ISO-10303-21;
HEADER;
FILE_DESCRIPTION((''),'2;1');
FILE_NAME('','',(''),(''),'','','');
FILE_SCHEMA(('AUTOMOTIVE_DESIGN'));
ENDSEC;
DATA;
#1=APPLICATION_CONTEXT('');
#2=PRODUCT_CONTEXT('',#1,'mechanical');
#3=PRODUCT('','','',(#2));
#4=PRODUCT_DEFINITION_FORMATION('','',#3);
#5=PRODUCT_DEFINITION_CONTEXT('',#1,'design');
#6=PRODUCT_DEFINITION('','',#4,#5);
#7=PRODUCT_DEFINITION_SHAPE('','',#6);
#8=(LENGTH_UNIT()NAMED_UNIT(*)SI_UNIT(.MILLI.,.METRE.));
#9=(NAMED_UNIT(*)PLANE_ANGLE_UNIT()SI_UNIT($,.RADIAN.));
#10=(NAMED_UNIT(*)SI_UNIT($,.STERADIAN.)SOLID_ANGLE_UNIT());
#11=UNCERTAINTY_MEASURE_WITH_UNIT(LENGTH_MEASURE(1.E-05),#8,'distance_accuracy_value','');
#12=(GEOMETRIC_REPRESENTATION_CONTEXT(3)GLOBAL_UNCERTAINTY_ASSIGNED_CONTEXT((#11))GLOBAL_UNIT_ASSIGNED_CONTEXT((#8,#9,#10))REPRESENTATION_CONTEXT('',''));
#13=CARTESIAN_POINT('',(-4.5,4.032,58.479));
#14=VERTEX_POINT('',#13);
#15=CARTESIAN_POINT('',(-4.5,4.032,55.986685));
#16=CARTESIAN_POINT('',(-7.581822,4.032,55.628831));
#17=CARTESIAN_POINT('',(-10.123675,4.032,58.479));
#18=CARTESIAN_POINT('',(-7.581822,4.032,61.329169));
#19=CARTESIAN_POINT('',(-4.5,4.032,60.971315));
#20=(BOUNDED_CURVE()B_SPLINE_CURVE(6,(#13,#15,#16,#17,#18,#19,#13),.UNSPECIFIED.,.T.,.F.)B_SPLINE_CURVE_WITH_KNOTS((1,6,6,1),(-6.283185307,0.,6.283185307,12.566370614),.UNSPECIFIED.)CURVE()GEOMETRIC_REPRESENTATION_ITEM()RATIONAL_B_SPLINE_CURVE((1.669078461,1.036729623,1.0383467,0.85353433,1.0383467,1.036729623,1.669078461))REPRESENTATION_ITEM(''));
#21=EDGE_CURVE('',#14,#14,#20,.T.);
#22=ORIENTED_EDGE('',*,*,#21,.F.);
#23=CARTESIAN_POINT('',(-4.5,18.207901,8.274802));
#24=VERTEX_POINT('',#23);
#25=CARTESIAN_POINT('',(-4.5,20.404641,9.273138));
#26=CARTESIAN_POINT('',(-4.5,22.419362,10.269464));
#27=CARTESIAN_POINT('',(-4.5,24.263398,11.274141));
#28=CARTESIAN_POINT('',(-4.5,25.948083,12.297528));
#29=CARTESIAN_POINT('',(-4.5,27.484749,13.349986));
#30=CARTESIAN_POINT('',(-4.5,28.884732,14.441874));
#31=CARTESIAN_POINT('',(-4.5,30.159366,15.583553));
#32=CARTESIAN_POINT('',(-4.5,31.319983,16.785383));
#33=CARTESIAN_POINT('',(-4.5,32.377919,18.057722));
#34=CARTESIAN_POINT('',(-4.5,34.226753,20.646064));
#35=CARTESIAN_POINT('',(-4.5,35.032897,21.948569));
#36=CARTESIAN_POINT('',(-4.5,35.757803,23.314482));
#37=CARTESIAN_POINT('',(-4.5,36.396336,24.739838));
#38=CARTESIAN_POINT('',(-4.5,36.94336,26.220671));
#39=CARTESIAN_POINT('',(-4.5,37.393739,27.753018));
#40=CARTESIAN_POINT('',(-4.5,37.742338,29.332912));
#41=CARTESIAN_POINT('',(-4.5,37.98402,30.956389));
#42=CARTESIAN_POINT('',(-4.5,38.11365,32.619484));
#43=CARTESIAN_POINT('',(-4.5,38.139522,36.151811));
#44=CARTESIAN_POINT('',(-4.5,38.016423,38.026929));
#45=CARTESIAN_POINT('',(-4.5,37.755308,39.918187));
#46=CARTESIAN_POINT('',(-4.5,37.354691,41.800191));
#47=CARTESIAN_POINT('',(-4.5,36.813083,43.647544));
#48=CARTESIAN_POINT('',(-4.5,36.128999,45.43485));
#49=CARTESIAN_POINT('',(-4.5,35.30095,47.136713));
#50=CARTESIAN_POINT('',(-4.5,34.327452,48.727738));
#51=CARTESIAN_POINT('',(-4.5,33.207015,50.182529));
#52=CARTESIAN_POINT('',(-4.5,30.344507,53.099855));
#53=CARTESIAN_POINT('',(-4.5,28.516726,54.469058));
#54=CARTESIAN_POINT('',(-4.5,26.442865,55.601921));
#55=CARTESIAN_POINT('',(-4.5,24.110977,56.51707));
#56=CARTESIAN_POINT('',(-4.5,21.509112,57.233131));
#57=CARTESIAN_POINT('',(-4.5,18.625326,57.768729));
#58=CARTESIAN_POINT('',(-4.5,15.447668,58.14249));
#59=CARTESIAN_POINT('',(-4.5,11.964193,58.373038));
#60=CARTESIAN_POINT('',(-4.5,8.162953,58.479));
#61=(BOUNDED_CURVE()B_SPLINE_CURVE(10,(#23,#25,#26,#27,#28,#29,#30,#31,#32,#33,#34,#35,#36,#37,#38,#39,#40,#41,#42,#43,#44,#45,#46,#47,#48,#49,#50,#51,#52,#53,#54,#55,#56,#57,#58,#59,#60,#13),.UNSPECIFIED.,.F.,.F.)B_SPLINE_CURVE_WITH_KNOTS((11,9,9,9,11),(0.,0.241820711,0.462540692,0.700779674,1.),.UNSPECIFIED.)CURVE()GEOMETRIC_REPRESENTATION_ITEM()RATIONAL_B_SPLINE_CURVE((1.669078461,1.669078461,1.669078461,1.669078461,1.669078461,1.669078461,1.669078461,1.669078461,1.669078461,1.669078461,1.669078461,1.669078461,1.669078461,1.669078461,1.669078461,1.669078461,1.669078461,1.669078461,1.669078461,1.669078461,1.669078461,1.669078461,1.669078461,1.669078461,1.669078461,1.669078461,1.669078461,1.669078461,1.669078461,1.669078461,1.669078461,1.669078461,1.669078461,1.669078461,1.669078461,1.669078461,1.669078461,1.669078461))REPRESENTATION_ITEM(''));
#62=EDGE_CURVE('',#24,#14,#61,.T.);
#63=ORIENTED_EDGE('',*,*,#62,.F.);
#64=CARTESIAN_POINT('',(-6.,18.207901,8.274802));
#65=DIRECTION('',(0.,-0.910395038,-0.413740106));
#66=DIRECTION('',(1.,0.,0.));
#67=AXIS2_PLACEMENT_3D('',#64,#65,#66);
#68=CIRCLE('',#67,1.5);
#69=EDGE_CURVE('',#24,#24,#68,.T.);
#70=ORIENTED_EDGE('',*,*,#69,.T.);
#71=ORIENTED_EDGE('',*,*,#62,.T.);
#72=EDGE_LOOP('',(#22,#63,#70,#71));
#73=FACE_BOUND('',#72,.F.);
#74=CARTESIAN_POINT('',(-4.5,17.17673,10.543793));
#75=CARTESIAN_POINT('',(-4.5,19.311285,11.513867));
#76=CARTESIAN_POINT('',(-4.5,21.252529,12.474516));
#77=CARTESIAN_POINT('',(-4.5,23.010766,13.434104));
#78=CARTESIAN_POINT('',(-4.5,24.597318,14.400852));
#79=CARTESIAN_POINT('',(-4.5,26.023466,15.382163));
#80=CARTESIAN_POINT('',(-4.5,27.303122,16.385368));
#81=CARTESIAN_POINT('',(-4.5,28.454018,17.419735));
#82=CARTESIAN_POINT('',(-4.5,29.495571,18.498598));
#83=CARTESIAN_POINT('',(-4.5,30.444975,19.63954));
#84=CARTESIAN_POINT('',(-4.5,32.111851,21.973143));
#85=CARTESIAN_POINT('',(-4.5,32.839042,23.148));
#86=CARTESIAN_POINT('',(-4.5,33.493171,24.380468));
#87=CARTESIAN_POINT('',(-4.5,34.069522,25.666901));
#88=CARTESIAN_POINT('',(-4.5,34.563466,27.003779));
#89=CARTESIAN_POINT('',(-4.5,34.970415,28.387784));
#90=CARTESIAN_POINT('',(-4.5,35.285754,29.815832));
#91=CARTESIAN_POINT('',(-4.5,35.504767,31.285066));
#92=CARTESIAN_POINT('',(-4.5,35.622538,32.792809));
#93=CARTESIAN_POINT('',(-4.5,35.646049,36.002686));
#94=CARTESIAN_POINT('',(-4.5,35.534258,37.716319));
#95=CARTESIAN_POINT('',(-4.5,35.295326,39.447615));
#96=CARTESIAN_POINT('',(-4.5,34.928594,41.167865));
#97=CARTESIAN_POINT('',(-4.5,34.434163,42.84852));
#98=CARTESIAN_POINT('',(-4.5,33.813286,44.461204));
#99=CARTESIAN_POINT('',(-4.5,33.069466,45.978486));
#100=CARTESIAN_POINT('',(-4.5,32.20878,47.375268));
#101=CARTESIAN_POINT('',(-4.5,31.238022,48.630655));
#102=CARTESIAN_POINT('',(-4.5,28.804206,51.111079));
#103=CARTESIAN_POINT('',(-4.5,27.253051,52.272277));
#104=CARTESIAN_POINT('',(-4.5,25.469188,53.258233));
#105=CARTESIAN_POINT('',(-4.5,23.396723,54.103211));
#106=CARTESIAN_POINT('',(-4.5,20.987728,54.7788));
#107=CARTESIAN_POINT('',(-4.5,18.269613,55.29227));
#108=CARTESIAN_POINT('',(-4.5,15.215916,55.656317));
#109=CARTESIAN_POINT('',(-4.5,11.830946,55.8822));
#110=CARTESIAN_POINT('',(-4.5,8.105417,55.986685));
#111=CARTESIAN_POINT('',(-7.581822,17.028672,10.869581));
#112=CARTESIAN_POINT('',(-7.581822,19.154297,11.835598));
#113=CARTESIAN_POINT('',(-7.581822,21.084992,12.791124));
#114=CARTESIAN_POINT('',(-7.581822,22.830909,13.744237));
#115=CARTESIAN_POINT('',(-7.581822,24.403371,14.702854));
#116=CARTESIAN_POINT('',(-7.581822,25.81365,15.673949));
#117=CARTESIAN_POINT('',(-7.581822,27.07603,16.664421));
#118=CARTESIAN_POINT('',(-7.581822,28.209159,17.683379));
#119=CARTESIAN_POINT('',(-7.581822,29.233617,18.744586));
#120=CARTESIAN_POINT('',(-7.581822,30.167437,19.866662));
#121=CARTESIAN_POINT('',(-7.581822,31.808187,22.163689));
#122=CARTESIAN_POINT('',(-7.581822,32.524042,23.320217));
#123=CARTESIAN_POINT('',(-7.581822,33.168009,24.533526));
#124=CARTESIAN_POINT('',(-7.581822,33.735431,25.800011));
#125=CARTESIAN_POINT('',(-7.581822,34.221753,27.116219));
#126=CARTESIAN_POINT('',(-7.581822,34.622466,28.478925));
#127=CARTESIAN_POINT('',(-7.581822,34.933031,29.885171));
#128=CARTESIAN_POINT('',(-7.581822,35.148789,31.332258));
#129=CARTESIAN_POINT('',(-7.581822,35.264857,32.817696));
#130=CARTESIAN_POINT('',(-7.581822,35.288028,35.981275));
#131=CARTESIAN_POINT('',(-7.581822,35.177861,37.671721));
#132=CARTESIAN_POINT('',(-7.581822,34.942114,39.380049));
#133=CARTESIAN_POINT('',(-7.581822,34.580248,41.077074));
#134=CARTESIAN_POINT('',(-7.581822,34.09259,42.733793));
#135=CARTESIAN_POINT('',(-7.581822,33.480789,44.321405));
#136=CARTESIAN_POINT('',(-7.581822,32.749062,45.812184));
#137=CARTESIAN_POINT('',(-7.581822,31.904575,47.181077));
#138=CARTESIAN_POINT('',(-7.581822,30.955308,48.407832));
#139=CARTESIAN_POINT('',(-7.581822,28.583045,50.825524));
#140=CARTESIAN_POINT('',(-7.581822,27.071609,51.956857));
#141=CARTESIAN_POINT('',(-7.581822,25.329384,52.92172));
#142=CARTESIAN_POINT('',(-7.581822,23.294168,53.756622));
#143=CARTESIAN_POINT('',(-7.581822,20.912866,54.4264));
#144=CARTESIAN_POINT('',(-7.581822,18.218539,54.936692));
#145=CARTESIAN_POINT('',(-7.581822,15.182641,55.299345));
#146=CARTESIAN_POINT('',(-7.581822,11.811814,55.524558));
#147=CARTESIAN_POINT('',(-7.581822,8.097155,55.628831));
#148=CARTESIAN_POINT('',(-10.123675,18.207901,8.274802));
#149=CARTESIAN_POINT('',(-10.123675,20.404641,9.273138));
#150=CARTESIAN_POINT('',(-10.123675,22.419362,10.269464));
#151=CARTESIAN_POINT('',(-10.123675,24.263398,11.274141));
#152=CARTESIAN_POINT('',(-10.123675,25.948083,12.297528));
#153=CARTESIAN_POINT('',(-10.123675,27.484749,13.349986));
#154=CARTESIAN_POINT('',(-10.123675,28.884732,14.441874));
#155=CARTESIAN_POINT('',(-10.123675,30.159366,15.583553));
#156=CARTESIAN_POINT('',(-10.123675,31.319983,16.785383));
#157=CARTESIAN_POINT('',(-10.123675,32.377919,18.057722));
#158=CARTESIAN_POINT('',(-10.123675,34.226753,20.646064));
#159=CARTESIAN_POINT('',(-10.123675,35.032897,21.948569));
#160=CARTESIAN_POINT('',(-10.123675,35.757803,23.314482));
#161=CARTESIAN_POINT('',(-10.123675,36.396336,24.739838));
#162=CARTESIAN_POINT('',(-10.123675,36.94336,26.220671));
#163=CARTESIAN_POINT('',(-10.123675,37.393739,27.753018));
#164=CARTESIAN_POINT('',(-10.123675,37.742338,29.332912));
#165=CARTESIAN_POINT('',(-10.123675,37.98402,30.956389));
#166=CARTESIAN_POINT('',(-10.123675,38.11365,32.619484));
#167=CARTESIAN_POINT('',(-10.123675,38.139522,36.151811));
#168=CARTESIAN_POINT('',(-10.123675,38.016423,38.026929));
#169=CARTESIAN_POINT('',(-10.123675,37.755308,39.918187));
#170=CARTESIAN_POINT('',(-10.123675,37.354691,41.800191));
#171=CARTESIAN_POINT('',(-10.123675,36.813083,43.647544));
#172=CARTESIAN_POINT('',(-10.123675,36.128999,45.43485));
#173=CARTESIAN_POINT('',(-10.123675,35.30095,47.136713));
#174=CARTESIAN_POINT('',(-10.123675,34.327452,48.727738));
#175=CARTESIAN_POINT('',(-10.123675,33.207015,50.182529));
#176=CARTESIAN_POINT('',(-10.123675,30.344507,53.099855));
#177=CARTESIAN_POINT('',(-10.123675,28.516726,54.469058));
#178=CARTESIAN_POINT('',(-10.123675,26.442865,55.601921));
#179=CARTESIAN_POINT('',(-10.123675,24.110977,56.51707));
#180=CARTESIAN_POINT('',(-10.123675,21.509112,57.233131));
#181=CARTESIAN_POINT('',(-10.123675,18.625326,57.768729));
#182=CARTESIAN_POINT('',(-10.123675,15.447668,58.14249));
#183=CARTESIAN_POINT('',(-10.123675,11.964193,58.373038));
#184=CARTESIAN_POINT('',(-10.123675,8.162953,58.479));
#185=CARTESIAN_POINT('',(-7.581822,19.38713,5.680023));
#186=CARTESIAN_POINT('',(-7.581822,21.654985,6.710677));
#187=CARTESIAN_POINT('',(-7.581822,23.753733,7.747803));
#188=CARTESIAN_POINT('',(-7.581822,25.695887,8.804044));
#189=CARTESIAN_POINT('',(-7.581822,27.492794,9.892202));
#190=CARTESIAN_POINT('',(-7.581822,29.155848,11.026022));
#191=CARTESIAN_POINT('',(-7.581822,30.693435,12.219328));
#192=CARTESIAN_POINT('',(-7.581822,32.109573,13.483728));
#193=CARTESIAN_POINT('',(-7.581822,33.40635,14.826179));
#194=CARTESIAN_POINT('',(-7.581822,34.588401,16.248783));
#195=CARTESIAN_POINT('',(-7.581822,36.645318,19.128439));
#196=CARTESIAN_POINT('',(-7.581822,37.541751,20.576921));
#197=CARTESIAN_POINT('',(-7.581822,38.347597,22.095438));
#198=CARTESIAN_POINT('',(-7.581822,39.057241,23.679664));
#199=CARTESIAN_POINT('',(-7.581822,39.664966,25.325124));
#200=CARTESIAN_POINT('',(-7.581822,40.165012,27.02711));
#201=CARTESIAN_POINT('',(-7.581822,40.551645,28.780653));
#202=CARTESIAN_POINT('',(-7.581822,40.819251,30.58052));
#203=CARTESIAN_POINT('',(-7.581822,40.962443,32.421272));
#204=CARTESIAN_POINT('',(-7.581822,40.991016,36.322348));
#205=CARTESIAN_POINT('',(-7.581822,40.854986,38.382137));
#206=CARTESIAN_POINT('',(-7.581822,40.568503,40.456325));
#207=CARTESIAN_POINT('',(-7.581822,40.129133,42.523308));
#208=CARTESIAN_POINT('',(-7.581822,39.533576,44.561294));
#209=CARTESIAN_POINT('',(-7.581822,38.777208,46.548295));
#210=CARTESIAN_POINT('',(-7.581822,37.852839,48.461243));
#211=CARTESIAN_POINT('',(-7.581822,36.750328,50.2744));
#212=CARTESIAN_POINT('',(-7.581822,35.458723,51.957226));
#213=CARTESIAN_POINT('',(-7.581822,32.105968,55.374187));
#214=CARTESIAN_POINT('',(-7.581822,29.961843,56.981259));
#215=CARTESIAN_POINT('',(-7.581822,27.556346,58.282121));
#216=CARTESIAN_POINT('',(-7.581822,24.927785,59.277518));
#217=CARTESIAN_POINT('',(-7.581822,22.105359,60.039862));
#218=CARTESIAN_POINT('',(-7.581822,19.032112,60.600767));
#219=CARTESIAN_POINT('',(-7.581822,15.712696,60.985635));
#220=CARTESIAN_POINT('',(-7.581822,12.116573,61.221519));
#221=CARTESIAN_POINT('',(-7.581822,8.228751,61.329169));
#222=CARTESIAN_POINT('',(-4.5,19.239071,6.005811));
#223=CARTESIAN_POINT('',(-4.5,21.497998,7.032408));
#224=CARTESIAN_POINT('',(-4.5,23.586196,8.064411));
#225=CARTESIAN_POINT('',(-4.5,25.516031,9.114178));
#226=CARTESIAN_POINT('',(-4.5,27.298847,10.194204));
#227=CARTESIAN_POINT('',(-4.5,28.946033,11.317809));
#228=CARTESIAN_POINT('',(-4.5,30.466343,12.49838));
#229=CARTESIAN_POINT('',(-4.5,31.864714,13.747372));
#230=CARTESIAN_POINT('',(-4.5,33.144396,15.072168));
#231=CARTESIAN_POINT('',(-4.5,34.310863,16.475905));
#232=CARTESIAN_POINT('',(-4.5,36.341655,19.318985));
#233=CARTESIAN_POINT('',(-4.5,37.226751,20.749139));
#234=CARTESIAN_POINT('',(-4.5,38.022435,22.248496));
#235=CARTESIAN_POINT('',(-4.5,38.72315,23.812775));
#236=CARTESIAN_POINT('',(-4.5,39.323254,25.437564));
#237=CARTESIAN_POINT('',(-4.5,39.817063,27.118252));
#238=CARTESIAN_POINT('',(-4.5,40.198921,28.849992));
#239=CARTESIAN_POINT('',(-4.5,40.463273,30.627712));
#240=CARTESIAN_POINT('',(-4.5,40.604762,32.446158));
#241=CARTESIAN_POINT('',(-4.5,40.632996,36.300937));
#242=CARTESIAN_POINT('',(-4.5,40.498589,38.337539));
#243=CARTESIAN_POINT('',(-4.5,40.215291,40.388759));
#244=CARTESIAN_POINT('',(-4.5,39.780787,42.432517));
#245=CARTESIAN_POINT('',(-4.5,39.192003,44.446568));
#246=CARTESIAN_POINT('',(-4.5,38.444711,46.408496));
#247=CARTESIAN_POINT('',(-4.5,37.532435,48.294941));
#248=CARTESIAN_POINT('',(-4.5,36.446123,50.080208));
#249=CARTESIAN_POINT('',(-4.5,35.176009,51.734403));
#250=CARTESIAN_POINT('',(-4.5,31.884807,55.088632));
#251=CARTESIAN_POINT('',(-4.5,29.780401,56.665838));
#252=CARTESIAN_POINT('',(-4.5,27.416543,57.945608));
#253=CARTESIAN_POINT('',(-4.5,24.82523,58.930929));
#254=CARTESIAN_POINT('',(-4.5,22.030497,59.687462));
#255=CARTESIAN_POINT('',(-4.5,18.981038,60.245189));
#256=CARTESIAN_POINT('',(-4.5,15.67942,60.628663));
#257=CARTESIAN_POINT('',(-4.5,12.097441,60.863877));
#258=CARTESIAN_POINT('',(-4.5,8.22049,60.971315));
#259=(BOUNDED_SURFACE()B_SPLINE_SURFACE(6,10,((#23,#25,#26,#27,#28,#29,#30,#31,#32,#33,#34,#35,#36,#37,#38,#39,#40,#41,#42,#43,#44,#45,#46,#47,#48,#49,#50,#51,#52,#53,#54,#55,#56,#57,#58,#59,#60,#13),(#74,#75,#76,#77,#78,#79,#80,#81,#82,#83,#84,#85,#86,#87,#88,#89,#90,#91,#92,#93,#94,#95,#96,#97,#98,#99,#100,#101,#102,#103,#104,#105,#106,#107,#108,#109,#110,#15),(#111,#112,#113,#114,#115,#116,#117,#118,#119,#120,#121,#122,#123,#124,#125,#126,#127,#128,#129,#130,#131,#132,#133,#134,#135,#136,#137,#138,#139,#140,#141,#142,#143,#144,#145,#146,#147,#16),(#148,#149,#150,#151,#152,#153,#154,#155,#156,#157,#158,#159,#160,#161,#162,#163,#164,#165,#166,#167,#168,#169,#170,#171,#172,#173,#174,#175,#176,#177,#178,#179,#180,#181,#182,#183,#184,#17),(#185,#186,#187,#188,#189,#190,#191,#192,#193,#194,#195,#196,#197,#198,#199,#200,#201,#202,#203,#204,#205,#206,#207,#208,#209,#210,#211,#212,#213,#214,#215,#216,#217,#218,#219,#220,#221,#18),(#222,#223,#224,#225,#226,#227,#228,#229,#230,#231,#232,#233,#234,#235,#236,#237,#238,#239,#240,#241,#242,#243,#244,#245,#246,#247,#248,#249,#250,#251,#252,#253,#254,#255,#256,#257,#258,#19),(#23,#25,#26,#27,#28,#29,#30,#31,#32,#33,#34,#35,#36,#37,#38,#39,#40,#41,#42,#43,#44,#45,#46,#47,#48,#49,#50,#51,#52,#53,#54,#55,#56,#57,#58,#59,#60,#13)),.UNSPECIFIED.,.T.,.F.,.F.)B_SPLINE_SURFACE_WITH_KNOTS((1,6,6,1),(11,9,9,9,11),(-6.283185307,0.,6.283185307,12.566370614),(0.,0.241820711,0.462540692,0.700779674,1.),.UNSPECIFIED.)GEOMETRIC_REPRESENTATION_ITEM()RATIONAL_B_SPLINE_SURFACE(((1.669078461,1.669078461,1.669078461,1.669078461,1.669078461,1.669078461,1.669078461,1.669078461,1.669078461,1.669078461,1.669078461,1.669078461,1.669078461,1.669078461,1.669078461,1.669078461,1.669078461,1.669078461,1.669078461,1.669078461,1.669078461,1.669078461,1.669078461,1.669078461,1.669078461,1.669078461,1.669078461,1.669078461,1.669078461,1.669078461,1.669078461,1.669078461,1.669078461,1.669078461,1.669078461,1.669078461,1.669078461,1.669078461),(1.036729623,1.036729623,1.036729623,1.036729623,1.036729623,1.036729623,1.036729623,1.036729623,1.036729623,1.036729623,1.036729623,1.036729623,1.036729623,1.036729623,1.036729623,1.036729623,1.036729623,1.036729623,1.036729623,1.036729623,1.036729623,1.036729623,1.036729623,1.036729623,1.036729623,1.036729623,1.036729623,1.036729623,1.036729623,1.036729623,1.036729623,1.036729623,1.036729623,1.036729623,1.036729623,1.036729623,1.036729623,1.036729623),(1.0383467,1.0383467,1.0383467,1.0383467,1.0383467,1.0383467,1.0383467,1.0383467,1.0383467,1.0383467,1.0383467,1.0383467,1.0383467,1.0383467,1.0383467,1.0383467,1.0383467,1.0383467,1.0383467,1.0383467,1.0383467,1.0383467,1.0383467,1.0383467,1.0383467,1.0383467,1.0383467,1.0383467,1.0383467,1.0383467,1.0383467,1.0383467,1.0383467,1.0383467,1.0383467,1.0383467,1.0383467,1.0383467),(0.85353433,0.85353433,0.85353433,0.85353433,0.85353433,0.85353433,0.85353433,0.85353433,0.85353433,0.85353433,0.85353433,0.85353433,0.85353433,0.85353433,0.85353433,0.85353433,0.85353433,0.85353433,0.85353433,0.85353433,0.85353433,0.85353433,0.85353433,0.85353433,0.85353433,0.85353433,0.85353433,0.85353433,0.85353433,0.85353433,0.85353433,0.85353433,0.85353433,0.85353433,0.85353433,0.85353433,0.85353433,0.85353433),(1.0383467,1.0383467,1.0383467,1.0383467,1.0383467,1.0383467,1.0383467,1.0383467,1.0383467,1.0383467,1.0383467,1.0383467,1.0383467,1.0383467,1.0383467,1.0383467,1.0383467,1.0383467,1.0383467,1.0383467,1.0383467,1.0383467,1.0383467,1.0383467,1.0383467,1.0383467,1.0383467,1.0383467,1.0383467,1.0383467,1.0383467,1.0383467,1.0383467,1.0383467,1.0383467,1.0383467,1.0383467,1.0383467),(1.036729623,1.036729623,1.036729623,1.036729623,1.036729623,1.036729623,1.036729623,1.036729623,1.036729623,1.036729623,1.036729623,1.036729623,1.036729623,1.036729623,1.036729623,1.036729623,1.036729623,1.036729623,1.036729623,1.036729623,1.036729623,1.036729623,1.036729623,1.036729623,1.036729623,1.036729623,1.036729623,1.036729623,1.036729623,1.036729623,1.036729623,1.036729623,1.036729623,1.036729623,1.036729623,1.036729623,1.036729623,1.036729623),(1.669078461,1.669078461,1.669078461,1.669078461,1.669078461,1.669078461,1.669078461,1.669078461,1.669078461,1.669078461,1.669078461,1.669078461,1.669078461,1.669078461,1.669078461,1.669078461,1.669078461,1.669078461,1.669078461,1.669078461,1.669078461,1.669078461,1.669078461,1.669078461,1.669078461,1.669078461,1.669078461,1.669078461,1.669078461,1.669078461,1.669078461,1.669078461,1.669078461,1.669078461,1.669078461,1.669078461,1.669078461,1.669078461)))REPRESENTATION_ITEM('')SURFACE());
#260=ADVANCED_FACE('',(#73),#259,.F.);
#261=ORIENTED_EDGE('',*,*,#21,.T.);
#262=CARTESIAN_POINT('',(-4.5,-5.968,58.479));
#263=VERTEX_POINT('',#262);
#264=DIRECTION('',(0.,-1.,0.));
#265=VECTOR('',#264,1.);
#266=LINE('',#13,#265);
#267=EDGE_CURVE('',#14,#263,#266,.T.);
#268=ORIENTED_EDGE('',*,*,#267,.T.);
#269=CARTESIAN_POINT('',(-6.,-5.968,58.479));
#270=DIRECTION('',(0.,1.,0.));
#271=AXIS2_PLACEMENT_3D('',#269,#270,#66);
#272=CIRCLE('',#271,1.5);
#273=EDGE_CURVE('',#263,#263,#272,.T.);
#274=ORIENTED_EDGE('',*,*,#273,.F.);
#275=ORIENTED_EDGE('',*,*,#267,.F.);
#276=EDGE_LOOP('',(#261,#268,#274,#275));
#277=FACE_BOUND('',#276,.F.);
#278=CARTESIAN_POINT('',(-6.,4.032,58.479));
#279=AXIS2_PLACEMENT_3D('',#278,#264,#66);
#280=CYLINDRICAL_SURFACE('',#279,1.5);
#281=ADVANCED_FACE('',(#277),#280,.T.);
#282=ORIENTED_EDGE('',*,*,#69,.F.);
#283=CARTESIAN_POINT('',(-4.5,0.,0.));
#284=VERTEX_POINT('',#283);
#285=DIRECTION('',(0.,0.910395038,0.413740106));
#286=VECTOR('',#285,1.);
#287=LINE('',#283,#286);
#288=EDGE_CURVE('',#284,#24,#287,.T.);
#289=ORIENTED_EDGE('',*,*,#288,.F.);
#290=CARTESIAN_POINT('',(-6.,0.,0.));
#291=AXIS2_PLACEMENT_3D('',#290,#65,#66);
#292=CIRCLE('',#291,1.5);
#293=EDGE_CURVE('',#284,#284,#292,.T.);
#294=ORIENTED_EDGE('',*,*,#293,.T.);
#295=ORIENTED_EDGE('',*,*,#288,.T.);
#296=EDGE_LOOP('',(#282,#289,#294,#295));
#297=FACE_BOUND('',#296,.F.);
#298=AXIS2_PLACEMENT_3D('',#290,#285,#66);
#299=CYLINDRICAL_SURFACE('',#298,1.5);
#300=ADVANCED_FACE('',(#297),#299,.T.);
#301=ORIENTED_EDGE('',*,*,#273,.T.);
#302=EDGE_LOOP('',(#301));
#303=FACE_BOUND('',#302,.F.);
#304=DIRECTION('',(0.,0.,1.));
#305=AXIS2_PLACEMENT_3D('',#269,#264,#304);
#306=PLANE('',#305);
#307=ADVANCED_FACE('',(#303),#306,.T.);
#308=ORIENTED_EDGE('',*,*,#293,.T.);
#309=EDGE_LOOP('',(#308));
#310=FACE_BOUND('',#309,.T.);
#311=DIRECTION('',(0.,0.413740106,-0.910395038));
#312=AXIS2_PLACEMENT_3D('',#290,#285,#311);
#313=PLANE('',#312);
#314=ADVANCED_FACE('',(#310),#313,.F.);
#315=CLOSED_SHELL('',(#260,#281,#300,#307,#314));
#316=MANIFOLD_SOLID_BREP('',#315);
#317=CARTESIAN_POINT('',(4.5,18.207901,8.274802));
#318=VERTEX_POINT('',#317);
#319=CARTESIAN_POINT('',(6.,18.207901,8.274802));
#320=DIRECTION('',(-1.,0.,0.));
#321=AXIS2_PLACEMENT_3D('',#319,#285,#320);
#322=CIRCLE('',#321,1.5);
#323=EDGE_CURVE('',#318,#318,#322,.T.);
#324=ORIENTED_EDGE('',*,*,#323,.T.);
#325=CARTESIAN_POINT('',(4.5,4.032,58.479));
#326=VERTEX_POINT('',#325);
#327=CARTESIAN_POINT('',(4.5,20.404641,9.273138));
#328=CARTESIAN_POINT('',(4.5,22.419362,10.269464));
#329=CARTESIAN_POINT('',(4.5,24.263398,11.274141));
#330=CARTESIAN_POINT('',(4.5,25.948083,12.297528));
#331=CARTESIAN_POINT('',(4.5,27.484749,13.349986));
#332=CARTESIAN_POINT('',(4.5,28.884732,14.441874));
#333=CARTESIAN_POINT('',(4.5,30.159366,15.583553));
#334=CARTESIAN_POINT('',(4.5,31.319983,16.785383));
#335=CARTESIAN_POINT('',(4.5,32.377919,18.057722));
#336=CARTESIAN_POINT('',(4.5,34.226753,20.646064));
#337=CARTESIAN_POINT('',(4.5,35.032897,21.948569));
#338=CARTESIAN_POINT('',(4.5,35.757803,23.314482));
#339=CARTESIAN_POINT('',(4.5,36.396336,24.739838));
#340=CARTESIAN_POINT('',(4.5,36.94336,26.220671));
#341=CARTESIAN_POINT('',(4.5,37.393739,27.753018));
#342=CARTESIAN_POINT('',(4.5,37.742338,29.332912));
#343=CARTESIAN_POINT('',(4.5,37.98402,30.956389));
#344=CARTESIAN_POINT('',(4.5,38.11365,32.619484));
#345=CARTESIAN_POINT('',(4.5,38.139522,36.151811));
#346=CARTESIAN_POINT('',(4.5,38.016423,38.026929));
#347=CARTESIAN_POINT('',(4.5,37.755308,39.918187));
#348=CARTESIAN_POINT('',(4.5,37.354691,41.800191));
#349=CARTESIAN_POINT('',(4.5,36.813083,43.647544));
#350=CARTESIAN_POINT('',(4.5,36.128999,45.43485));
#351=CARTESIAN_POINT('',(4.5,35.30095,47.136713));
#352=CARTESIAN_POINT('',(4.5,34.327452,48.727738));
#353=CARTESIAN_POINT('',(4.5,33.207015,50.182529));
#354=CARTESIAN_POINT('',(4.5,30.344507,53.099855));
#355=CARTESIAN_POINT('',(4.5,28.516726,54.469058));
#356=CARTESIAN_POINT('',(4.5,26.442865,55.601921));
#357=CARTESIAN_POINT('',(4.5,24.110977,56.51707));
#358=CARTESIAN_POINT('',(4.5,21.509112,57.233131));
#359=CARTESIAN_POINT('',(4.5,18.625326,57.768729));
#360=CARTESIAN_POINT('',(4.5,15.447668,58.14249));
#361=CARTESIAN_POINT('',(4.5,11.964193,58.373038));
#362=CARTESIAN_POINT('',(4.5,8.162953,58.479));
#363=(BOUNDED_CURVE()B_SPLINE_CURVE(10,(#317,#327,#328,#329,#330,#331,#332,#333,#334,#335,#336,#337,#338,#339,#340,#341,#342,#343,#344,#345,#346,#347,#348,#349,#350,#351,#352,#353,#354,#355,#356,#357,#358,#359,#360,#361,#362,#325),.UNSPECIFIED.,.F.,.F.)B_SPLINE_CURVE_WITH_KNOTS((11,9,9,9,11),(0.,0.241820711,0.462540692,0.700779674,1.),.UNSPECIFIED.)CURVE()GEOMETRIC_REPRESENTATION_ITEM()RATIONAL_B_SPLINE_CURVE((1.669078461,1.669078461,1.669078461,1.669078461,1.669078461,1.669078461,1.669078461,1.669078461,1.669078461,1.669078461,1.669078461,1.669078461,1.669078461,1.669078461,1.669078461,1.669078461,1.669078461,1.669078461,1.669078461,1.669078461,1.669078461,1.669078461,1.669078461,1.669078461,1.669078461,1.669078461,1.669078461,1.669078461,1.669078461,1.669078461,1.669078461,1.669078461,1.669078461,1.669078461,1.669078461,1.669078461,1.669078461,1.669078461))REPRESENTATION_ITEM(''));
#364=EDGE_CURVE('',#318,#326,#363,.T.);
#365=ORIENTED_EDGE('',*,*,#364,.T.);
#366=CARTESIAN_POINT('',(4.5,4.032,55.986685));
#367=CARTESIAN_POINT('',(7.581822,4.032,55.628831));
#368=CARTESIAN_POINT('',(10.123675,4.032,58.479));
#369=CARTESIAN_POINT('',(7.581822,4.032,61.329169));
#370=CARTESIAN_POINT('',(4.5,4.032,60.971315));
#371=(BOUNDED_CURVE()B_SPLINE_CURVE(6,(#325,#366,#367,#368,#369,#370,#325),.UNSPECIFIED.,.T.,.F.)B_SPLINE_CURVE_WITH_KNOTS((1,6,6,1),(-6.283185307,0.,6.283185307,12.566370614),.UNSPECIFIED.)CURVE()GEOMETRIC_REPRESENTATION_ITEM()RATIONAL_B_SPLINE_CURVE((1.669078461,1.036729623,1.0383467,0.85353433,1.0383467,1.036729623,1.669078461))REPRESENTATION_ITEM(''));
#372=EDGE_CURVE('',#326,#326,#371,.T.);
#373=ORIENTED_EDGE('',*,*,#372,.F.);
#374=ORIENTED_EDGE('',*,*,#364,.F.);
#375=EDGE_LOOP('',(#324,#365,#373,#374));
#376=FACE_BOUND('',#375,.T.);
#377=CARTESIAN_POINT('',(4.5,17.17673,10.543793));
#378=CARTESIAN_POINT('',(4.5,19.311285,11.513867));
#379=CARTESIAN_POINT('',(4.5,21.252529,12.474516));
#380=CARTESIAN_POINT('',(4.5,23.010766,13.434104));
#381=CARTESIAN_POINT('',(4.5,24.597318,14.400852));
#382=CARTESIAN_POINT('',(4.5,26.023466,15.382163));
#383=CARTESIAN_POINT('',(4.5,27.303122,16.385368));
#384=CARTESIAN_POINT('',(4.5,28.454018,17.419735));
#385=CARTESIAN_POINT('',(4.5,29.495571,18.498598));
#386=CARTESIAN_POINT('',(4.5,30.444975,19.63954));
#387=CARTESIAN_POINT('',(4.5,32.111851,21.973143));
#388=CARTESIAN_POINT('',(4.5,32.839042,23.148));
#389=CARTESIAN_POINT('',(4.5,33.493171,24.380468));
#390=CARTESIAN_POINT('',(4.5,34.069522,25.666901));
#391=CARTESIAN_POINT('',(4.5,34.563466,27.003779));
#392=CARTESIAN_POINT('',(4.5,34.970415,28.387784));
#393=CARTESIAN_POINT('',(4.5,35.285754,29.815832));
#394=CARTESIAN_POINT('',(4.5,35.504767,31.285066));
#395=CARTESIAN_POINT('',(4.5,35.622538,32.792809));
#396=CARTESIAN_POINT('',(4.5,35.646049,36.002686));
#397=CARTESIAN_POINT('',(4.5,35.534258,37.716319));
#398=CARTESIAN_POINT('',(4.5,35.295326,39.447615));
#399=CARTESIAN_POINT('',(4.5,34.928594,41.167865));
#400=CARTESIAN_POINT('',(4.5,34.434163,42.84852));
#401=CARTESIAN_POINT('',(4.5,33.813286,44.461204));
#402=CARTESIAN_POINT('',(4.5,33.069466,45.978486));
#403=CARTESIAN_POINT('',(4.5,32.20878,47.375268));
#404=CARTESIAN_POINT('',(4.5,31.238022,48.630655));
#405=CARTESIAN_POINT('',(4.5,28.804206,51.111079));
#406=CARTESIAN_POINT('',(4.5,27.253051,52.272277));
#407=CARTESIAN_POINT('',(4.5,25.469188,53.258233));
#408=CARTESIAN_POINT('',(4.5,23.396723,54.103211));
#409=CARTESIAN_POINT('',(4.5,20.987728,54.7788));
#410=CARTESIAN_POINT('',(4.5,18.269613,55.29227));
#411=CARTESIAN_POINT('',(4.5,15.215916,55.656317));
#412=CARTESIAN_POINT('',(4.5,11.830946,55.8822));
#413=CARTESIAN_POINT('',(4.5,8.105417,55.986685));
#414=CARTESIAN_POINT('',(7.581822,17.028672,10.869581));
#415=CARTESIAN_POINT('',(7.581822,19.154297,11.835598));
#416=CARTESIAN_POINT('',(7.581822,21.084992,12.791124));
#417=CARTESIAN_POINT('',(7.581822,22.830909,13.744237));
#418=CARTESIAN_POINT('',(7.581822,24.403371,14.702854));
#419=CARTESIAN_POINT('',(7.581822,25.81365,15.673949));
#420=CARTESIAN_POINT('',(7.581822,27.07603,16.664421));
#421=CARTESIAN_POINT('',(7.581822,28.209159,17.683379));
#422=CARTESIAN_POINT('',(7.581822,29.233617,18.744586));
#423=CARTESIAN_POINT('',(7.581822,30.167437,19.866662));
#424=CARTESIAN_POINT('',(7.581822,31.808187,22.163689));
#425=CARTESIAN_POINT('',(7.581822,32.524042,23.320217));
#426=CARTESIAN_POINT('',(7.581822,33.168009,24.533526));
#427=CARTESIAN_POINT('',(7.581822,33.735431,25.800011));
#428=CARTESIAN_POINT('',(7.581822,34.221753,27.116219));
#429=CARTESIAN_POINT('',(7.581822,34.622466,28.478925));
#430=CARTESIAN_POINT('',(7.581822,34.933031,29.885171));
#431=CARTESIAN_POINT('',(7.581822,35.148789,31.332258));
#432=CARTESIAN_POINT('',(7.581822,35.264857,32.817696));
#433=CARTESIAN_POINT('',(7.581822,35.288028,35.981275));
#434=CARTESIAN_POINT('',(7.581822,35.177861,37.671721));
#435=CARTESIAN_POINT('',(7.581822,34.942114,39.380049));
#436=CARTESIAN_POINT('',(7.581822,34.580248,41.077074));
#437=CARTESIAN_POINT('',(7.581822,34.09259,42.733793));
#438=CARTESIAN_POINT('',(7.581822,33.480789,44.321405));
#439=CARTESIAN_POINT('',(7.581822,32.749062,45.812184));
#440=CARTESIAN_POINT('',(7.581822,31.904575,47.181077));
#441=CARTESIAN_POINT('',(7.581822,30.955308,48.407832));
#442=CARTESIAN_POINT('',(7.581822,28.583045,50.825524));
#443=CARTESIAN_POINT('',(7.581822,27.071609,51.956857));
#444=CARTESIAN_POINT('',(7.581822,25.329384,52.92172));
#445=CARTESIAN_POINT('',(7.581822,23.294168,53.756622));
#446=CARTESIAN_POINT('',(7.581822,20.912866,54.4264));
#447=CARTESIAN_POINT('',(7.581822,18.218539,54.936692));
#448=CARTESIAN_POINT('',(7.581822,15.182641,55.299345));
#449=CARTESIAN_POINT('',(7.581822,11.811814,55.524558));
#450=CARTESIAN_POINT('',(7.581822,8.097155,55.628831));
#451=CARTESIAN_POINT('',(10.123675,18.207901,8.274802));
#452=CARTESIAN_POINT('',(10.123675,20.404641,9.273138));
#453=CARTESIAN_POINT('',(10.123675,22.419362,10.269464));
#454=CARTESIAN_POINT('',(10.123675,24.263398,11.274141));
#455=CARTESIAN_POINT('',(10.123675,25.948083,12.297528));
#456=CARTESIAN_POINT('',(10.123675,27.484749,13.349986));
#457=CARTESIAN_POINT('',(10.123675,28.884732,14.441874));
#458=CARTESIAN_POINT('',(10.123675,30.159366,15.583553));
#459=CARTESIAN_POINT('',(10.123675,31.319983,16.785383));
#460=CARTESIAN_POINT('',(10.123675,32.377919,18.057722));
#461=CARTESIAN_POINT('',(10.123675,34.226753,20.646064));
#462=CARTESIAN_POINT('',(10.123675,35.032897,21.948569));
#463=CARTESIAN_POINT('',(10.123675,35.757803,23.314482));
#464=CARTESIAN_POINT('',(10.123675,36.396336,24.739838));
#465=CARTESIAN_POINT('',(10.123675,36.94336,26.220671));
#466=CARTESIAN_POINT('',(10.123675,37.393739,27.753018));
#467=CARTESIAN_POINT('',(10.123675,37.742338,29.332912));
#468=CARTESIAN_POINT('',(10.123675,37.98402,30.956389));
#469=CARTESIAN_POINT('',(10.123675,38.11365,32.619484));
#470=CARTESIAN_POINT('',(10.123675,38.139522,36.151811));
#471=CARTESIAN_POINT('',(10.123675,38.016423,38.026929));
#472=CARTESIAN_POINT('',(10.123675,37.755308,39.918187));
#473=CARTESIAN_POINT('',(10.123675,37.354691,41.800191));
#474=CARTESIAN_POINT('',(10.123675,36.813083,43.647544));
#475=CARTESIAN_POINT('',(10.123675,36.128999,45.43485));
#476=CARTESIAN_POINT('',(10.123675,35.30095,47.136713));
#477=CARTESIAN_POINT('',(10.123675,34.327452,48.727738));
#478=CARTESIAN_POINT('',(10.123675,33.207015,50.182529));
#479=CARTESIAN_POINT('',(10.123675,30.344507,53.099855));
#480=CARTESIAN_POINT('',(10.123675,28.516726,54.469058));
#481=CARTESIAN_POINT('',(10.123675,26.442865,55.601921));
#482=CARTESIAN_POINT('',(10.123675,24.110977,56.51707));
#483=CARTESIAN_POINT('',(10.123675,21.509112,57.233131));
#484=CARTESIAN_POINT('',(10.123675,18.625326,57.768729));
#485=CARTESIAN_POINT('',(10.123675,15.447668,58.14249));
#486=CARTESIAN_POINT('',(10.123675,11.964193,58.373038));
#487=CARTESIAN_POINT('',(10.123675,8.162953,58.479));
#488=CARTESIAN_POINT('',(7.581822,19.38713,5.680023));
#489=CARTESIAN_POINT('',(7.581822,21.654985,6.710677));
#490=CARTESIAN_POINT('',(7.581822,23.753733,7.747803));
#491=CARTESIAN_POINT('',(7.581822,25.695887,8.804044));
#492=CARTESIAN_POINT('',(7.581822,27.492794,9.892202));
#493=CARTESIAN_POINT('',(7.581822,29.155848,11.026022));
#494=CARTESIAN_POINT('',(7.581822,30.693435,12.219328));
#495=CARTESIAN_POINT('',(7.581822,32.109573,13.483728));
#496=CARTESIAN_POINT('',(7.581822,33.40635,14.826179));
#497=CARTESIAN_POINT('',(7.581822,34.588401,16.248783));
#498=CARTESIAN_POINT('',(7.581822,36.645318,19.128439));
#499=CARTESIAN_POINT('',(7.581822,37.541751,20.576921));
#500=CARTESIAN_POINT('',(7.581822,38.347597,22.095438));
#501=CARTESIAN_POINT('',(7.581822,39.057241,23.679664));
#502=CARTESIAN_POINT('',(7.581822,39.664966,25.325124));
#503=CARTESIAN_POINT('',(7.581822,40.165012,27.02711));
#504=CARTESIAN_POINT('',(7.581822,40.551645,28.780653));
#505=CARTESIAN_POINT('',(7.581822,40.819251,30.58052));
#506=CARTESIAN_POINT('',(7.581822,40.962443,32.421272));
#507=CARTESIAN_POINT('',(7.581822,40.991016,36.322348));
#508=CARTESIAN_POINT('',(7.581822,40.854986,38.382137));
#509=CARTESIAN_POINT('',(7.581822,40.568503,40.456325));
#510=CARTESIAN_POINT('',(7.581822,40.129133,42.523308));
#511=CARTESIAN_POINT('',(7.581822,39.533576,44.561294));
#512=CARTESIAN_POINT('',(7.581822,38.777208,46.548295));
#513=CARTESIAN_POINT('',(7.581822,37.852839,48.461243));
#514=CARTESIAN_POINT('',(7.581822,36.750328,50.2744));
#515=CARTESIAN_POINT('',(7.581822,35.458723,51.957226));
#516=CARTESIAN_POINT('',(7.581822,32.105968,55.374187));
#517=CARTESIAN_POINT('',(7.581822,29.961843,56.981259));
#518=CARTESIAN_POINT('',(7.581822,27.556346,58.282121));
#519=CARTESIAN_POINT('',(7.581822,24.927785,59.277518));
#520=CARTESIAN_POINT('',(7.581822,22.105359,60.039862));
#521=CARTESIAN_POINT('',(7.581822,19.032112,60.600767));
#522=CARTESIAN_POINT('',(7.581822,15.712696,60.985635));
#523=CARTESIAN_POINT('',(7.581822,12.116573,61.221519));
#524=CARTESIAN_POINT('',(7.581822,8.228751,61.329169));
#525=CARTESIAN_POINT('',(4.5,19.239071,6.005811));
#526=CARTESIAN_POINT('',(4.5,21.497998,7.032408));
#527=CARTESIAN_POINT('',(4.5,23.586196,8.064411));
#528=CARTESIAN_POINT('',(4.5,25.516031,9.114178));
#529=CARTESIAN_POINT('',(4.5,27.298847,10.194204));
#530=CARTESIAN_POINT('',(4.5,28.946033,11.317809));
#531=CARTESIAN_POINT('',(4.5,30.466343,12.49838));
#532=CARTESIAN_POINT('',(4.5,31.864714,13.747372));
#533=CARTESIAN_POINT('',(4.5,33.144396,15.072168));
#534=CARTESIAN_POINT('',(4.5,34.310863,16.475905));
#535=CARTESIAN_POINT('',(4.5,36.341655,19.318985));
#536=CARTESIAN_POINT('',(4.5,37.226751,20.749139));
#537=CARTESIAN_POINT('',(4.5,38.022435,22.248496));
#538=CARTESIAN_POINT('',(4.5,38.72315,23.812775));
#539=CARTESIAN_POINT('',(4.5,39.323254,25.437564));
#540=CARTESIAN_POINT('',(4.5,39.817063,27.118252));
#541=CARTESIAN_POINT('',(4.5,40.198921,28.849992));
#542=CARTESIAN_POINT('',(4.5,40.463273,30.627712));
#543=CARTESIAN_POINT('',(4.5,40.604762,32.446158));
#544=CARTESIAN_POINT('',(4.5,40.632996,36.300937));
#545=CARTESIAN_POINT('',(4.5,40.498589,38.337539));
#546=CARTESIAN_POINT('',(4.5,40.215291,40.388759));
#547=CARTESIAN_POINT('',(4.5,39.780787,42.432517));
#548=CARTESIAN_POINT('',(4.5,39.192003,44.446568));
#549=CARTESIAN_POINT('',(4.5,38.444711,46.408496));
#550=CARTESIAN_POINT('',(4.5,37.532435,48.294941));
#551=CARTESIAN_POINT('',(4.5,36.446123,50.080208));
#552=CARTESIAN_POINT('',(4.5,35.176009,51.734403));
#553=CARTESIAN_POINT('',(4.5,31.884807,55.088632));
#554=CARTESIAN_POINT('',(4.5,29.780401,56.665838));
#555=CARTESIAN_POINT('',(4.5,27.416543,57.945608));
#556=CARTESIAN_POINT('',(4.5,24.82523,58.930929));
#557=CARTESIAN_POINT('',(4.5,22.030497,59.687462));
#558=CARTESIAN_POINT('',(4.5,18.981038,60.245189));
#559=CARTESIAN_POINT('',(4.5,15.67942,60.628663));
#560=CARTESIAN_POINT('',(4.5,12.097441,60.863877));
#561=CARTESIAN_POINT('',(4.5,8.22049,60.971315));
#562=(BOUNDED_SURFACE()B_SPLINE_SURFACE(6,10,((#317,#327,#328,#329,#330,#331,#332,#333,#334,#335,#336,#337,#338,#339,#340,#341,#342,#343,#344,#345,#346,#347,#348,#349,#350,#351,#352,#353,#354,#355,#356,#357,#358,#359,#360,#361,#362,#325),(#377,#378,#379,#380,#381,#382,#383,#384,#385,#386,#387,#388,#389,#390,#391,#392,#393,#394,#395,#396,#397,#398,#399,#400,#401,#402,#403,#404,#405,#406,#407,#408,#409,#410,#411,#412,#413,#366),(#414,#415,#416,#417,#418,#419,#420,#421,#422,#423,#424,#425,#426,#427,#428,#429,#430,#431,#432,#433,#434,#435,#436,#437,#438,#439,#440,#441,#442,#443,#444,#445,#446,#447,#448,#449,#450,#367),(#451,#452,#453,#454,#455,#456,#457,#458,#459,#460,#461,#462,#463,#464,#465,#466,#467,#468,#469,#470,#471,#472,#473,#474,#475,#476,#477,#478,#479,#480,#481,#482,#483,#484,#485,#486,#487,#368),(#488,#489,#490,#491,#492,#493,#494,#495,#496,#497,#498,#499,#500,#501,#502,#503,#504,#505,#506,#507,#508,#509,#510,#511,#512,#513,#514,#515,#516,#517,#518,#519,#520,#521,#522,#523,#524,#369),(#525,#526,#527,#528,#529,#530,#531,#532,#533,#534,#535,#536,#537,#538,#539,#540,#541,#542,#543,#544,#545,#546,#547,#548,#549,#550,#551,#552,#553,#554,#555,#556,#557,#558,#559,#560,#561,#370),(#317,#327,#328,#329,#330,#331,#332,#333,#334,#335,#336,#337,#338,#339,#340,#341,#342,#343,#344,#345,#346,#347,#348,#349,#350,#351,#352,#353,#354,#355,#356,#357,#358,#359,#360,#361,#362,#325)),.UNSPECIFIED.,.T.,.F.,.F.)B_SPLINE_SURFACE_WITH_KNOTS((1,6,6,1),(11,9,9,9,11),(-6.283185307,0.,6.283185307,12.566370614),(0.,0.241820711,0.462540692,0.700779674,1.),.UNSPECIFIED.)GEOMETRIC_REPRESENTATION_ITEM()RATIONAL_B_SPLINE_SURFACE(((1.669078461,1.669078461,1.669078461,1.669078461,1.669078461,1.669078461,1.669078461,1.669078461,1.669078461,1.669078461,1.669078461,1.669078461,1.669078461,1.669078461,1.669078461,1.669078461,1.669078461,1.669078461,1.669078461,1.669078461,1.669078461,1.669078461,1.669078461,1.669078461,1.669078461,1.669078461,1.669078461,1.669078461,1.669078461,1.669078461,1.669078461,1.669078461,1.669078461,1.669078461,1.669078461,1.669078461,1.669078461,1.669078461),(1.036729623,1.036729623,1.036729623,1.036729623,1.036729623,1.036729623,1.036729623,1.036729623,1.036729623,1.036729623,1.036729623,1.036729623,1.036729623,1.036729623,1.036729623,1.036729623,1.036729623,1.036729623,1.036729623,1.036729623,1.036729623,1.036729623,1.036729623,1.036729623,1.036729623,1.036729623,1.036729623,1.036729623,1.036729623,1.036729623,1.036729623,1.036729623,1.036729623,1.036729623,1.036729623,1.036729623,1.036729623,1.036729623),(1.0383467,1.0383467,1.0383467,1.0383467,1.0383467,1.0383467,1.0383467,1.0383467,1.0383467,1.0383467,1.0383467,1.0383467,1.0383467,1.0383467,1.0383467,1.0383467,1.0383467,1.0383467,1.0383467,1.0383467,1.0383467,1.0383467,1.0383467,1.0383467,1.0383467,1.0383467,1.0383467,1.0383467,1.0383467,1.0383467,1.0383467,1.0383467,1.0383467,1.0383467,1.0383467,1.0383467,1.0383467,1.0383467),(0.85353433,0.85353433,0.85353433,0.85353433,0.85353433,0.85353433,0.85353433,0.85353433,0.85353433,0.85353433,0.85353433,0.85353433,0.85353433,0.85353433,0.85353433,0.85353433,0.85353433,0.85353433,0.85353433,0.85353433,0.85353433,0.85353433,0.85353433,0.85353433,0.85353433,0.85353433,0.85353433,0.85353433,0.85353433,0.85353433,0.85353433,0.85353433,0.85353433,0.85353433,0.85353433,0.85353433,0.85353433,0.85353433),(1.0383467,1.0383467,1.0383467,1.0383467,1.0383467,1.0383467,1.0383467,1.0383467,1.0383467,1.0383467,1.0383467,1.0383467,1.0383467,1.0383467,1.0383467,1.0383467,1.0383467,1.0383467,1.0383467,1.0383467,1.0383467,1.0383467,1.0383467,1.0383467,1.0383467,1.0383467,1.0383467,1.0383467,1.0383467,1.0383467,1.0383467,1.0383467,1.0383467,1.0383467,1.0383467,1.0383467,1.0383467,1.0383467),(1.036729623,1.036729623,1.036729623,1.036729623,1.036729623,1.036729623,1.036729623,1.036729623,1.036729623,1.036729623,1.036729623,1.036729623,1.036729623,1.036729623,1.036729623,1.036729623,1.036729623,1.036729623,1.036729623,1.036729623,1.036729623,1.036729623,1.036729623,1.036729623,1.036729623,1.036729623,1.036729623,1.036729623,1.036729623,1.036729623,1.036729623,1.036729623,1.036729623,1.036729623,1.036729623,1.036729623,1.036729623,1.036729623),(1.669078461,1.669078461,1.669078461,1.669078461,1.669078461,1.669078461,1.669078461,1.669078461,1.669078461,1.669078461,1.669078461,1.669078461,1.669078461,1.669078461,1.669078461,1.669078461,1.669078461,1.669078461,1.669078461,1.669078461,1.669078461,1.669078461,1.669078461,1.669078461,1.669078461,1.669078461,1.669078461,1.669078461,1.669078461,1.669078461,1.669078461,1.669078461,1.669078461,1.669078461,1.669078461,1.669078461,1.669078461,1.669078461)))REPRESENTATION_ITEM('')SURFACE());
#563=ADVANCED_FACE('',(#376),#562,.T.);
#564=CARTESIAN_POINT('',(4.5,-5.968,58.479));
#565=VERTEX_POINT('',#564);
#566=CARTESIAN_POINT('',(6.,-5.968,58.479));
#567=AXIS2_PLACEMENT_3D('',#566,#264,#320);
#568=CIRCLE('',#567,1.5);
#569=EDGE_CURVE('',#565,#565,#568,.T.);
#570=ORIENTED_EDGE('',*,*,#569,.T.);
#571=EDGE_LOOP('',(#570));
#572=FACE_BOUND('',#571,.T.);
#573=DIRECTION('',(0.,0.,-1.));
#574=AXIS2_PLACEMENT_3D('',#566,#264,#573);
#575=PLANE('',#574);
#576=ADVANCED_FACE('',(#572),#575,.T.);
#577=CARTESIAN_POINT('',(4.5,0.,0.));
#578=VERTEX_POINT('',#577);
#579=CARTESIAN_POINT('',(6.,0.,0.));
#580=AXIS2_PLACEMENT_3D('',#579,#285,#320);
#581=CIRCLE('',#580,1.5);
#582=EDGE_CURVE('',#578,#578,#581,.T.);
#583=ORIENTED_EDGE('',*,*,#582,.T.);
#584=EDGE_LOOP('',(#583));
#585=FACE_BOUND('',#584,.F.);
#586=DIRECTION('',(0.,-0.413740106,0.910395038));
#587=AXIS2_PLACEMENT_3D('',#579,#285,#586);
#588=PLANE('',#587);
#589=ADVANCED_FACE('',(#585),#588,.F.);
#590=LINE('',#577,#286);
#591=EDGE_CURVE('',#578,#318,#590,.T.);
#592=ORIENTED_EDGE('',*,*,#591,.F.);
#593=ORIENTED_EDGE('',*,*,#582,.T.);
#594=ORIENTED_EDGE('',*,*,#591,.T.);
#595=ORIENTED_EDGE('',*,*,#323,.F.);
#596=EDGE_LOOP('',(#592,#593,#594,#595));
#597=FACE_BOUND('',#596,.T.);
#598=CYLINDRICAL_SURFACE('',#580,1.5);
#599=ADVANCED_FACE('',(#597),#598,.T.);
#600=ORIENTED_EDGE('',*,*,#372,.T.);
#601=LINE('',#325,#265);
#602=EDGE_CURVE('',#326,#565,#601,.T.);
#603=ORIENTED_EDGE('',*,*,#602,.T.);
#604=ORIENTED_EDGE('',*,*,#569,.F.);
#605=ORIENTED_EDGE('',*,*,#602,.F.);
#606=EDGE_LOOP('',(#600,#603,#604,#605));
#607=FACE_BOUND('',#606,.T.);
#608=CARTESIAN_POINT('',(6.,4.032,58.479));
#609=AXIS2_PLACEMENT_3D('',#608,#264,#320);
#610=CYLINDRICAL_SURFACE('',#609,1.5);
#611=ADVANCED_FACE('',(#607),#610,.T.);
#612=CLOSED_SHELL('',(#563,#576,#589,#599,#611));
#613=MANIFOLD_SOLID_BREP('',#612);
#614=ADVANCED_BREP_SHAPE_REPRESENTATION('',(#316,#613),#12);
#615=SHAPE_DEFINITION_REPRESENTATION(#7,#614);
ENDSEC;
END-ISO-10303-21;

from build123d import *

# Parameters (mm, degrees)
F3_R = 1.5


with BuildPart() as f4:
    # F4: sweep along a path in F1
    with BuildLine(Plane.YZ.offset(6)) as f4_path:
        Line((0, 0), (18.2079007521, 8.2748021247))
        add(Plane.YZ.offset(6) * Edge.make_bspline(
            [(18.2079007521, 8.2748021247), (25.5303692235, 11.6025870512), (34.3140226829, 17.9101324611), (40.0267231676, 34.1904367583), (33.6517776748, 55.6240802607), (17.8018437886, 58.479), (4.032, 58.479)],
            knots=[0, 0, 0, 0, 0.2418207107, 0.462540692, 0.7007796735, 1, 1, 1, 1], degree=3))
        Line((4.032, 58.479), (-5.968, 58.479))
    # F3 (on line) → F4 (sweep)
    with BuildSketch(Plane(origin=(0, 0, 0), x_dir=(-1, 0, 0), z_dir=(0, 0.9103950376, 0.4137401062))):
        with Locations((-6, 0)):
            Circle(F3_R)
    sweep(path=f4_path.line)


with BuildPart() as f5_1:
    # F5: instance of F4
    add(f4.part.mirror(Plane.YZ))


solid = Compound([f4.part, f5_1.part])
